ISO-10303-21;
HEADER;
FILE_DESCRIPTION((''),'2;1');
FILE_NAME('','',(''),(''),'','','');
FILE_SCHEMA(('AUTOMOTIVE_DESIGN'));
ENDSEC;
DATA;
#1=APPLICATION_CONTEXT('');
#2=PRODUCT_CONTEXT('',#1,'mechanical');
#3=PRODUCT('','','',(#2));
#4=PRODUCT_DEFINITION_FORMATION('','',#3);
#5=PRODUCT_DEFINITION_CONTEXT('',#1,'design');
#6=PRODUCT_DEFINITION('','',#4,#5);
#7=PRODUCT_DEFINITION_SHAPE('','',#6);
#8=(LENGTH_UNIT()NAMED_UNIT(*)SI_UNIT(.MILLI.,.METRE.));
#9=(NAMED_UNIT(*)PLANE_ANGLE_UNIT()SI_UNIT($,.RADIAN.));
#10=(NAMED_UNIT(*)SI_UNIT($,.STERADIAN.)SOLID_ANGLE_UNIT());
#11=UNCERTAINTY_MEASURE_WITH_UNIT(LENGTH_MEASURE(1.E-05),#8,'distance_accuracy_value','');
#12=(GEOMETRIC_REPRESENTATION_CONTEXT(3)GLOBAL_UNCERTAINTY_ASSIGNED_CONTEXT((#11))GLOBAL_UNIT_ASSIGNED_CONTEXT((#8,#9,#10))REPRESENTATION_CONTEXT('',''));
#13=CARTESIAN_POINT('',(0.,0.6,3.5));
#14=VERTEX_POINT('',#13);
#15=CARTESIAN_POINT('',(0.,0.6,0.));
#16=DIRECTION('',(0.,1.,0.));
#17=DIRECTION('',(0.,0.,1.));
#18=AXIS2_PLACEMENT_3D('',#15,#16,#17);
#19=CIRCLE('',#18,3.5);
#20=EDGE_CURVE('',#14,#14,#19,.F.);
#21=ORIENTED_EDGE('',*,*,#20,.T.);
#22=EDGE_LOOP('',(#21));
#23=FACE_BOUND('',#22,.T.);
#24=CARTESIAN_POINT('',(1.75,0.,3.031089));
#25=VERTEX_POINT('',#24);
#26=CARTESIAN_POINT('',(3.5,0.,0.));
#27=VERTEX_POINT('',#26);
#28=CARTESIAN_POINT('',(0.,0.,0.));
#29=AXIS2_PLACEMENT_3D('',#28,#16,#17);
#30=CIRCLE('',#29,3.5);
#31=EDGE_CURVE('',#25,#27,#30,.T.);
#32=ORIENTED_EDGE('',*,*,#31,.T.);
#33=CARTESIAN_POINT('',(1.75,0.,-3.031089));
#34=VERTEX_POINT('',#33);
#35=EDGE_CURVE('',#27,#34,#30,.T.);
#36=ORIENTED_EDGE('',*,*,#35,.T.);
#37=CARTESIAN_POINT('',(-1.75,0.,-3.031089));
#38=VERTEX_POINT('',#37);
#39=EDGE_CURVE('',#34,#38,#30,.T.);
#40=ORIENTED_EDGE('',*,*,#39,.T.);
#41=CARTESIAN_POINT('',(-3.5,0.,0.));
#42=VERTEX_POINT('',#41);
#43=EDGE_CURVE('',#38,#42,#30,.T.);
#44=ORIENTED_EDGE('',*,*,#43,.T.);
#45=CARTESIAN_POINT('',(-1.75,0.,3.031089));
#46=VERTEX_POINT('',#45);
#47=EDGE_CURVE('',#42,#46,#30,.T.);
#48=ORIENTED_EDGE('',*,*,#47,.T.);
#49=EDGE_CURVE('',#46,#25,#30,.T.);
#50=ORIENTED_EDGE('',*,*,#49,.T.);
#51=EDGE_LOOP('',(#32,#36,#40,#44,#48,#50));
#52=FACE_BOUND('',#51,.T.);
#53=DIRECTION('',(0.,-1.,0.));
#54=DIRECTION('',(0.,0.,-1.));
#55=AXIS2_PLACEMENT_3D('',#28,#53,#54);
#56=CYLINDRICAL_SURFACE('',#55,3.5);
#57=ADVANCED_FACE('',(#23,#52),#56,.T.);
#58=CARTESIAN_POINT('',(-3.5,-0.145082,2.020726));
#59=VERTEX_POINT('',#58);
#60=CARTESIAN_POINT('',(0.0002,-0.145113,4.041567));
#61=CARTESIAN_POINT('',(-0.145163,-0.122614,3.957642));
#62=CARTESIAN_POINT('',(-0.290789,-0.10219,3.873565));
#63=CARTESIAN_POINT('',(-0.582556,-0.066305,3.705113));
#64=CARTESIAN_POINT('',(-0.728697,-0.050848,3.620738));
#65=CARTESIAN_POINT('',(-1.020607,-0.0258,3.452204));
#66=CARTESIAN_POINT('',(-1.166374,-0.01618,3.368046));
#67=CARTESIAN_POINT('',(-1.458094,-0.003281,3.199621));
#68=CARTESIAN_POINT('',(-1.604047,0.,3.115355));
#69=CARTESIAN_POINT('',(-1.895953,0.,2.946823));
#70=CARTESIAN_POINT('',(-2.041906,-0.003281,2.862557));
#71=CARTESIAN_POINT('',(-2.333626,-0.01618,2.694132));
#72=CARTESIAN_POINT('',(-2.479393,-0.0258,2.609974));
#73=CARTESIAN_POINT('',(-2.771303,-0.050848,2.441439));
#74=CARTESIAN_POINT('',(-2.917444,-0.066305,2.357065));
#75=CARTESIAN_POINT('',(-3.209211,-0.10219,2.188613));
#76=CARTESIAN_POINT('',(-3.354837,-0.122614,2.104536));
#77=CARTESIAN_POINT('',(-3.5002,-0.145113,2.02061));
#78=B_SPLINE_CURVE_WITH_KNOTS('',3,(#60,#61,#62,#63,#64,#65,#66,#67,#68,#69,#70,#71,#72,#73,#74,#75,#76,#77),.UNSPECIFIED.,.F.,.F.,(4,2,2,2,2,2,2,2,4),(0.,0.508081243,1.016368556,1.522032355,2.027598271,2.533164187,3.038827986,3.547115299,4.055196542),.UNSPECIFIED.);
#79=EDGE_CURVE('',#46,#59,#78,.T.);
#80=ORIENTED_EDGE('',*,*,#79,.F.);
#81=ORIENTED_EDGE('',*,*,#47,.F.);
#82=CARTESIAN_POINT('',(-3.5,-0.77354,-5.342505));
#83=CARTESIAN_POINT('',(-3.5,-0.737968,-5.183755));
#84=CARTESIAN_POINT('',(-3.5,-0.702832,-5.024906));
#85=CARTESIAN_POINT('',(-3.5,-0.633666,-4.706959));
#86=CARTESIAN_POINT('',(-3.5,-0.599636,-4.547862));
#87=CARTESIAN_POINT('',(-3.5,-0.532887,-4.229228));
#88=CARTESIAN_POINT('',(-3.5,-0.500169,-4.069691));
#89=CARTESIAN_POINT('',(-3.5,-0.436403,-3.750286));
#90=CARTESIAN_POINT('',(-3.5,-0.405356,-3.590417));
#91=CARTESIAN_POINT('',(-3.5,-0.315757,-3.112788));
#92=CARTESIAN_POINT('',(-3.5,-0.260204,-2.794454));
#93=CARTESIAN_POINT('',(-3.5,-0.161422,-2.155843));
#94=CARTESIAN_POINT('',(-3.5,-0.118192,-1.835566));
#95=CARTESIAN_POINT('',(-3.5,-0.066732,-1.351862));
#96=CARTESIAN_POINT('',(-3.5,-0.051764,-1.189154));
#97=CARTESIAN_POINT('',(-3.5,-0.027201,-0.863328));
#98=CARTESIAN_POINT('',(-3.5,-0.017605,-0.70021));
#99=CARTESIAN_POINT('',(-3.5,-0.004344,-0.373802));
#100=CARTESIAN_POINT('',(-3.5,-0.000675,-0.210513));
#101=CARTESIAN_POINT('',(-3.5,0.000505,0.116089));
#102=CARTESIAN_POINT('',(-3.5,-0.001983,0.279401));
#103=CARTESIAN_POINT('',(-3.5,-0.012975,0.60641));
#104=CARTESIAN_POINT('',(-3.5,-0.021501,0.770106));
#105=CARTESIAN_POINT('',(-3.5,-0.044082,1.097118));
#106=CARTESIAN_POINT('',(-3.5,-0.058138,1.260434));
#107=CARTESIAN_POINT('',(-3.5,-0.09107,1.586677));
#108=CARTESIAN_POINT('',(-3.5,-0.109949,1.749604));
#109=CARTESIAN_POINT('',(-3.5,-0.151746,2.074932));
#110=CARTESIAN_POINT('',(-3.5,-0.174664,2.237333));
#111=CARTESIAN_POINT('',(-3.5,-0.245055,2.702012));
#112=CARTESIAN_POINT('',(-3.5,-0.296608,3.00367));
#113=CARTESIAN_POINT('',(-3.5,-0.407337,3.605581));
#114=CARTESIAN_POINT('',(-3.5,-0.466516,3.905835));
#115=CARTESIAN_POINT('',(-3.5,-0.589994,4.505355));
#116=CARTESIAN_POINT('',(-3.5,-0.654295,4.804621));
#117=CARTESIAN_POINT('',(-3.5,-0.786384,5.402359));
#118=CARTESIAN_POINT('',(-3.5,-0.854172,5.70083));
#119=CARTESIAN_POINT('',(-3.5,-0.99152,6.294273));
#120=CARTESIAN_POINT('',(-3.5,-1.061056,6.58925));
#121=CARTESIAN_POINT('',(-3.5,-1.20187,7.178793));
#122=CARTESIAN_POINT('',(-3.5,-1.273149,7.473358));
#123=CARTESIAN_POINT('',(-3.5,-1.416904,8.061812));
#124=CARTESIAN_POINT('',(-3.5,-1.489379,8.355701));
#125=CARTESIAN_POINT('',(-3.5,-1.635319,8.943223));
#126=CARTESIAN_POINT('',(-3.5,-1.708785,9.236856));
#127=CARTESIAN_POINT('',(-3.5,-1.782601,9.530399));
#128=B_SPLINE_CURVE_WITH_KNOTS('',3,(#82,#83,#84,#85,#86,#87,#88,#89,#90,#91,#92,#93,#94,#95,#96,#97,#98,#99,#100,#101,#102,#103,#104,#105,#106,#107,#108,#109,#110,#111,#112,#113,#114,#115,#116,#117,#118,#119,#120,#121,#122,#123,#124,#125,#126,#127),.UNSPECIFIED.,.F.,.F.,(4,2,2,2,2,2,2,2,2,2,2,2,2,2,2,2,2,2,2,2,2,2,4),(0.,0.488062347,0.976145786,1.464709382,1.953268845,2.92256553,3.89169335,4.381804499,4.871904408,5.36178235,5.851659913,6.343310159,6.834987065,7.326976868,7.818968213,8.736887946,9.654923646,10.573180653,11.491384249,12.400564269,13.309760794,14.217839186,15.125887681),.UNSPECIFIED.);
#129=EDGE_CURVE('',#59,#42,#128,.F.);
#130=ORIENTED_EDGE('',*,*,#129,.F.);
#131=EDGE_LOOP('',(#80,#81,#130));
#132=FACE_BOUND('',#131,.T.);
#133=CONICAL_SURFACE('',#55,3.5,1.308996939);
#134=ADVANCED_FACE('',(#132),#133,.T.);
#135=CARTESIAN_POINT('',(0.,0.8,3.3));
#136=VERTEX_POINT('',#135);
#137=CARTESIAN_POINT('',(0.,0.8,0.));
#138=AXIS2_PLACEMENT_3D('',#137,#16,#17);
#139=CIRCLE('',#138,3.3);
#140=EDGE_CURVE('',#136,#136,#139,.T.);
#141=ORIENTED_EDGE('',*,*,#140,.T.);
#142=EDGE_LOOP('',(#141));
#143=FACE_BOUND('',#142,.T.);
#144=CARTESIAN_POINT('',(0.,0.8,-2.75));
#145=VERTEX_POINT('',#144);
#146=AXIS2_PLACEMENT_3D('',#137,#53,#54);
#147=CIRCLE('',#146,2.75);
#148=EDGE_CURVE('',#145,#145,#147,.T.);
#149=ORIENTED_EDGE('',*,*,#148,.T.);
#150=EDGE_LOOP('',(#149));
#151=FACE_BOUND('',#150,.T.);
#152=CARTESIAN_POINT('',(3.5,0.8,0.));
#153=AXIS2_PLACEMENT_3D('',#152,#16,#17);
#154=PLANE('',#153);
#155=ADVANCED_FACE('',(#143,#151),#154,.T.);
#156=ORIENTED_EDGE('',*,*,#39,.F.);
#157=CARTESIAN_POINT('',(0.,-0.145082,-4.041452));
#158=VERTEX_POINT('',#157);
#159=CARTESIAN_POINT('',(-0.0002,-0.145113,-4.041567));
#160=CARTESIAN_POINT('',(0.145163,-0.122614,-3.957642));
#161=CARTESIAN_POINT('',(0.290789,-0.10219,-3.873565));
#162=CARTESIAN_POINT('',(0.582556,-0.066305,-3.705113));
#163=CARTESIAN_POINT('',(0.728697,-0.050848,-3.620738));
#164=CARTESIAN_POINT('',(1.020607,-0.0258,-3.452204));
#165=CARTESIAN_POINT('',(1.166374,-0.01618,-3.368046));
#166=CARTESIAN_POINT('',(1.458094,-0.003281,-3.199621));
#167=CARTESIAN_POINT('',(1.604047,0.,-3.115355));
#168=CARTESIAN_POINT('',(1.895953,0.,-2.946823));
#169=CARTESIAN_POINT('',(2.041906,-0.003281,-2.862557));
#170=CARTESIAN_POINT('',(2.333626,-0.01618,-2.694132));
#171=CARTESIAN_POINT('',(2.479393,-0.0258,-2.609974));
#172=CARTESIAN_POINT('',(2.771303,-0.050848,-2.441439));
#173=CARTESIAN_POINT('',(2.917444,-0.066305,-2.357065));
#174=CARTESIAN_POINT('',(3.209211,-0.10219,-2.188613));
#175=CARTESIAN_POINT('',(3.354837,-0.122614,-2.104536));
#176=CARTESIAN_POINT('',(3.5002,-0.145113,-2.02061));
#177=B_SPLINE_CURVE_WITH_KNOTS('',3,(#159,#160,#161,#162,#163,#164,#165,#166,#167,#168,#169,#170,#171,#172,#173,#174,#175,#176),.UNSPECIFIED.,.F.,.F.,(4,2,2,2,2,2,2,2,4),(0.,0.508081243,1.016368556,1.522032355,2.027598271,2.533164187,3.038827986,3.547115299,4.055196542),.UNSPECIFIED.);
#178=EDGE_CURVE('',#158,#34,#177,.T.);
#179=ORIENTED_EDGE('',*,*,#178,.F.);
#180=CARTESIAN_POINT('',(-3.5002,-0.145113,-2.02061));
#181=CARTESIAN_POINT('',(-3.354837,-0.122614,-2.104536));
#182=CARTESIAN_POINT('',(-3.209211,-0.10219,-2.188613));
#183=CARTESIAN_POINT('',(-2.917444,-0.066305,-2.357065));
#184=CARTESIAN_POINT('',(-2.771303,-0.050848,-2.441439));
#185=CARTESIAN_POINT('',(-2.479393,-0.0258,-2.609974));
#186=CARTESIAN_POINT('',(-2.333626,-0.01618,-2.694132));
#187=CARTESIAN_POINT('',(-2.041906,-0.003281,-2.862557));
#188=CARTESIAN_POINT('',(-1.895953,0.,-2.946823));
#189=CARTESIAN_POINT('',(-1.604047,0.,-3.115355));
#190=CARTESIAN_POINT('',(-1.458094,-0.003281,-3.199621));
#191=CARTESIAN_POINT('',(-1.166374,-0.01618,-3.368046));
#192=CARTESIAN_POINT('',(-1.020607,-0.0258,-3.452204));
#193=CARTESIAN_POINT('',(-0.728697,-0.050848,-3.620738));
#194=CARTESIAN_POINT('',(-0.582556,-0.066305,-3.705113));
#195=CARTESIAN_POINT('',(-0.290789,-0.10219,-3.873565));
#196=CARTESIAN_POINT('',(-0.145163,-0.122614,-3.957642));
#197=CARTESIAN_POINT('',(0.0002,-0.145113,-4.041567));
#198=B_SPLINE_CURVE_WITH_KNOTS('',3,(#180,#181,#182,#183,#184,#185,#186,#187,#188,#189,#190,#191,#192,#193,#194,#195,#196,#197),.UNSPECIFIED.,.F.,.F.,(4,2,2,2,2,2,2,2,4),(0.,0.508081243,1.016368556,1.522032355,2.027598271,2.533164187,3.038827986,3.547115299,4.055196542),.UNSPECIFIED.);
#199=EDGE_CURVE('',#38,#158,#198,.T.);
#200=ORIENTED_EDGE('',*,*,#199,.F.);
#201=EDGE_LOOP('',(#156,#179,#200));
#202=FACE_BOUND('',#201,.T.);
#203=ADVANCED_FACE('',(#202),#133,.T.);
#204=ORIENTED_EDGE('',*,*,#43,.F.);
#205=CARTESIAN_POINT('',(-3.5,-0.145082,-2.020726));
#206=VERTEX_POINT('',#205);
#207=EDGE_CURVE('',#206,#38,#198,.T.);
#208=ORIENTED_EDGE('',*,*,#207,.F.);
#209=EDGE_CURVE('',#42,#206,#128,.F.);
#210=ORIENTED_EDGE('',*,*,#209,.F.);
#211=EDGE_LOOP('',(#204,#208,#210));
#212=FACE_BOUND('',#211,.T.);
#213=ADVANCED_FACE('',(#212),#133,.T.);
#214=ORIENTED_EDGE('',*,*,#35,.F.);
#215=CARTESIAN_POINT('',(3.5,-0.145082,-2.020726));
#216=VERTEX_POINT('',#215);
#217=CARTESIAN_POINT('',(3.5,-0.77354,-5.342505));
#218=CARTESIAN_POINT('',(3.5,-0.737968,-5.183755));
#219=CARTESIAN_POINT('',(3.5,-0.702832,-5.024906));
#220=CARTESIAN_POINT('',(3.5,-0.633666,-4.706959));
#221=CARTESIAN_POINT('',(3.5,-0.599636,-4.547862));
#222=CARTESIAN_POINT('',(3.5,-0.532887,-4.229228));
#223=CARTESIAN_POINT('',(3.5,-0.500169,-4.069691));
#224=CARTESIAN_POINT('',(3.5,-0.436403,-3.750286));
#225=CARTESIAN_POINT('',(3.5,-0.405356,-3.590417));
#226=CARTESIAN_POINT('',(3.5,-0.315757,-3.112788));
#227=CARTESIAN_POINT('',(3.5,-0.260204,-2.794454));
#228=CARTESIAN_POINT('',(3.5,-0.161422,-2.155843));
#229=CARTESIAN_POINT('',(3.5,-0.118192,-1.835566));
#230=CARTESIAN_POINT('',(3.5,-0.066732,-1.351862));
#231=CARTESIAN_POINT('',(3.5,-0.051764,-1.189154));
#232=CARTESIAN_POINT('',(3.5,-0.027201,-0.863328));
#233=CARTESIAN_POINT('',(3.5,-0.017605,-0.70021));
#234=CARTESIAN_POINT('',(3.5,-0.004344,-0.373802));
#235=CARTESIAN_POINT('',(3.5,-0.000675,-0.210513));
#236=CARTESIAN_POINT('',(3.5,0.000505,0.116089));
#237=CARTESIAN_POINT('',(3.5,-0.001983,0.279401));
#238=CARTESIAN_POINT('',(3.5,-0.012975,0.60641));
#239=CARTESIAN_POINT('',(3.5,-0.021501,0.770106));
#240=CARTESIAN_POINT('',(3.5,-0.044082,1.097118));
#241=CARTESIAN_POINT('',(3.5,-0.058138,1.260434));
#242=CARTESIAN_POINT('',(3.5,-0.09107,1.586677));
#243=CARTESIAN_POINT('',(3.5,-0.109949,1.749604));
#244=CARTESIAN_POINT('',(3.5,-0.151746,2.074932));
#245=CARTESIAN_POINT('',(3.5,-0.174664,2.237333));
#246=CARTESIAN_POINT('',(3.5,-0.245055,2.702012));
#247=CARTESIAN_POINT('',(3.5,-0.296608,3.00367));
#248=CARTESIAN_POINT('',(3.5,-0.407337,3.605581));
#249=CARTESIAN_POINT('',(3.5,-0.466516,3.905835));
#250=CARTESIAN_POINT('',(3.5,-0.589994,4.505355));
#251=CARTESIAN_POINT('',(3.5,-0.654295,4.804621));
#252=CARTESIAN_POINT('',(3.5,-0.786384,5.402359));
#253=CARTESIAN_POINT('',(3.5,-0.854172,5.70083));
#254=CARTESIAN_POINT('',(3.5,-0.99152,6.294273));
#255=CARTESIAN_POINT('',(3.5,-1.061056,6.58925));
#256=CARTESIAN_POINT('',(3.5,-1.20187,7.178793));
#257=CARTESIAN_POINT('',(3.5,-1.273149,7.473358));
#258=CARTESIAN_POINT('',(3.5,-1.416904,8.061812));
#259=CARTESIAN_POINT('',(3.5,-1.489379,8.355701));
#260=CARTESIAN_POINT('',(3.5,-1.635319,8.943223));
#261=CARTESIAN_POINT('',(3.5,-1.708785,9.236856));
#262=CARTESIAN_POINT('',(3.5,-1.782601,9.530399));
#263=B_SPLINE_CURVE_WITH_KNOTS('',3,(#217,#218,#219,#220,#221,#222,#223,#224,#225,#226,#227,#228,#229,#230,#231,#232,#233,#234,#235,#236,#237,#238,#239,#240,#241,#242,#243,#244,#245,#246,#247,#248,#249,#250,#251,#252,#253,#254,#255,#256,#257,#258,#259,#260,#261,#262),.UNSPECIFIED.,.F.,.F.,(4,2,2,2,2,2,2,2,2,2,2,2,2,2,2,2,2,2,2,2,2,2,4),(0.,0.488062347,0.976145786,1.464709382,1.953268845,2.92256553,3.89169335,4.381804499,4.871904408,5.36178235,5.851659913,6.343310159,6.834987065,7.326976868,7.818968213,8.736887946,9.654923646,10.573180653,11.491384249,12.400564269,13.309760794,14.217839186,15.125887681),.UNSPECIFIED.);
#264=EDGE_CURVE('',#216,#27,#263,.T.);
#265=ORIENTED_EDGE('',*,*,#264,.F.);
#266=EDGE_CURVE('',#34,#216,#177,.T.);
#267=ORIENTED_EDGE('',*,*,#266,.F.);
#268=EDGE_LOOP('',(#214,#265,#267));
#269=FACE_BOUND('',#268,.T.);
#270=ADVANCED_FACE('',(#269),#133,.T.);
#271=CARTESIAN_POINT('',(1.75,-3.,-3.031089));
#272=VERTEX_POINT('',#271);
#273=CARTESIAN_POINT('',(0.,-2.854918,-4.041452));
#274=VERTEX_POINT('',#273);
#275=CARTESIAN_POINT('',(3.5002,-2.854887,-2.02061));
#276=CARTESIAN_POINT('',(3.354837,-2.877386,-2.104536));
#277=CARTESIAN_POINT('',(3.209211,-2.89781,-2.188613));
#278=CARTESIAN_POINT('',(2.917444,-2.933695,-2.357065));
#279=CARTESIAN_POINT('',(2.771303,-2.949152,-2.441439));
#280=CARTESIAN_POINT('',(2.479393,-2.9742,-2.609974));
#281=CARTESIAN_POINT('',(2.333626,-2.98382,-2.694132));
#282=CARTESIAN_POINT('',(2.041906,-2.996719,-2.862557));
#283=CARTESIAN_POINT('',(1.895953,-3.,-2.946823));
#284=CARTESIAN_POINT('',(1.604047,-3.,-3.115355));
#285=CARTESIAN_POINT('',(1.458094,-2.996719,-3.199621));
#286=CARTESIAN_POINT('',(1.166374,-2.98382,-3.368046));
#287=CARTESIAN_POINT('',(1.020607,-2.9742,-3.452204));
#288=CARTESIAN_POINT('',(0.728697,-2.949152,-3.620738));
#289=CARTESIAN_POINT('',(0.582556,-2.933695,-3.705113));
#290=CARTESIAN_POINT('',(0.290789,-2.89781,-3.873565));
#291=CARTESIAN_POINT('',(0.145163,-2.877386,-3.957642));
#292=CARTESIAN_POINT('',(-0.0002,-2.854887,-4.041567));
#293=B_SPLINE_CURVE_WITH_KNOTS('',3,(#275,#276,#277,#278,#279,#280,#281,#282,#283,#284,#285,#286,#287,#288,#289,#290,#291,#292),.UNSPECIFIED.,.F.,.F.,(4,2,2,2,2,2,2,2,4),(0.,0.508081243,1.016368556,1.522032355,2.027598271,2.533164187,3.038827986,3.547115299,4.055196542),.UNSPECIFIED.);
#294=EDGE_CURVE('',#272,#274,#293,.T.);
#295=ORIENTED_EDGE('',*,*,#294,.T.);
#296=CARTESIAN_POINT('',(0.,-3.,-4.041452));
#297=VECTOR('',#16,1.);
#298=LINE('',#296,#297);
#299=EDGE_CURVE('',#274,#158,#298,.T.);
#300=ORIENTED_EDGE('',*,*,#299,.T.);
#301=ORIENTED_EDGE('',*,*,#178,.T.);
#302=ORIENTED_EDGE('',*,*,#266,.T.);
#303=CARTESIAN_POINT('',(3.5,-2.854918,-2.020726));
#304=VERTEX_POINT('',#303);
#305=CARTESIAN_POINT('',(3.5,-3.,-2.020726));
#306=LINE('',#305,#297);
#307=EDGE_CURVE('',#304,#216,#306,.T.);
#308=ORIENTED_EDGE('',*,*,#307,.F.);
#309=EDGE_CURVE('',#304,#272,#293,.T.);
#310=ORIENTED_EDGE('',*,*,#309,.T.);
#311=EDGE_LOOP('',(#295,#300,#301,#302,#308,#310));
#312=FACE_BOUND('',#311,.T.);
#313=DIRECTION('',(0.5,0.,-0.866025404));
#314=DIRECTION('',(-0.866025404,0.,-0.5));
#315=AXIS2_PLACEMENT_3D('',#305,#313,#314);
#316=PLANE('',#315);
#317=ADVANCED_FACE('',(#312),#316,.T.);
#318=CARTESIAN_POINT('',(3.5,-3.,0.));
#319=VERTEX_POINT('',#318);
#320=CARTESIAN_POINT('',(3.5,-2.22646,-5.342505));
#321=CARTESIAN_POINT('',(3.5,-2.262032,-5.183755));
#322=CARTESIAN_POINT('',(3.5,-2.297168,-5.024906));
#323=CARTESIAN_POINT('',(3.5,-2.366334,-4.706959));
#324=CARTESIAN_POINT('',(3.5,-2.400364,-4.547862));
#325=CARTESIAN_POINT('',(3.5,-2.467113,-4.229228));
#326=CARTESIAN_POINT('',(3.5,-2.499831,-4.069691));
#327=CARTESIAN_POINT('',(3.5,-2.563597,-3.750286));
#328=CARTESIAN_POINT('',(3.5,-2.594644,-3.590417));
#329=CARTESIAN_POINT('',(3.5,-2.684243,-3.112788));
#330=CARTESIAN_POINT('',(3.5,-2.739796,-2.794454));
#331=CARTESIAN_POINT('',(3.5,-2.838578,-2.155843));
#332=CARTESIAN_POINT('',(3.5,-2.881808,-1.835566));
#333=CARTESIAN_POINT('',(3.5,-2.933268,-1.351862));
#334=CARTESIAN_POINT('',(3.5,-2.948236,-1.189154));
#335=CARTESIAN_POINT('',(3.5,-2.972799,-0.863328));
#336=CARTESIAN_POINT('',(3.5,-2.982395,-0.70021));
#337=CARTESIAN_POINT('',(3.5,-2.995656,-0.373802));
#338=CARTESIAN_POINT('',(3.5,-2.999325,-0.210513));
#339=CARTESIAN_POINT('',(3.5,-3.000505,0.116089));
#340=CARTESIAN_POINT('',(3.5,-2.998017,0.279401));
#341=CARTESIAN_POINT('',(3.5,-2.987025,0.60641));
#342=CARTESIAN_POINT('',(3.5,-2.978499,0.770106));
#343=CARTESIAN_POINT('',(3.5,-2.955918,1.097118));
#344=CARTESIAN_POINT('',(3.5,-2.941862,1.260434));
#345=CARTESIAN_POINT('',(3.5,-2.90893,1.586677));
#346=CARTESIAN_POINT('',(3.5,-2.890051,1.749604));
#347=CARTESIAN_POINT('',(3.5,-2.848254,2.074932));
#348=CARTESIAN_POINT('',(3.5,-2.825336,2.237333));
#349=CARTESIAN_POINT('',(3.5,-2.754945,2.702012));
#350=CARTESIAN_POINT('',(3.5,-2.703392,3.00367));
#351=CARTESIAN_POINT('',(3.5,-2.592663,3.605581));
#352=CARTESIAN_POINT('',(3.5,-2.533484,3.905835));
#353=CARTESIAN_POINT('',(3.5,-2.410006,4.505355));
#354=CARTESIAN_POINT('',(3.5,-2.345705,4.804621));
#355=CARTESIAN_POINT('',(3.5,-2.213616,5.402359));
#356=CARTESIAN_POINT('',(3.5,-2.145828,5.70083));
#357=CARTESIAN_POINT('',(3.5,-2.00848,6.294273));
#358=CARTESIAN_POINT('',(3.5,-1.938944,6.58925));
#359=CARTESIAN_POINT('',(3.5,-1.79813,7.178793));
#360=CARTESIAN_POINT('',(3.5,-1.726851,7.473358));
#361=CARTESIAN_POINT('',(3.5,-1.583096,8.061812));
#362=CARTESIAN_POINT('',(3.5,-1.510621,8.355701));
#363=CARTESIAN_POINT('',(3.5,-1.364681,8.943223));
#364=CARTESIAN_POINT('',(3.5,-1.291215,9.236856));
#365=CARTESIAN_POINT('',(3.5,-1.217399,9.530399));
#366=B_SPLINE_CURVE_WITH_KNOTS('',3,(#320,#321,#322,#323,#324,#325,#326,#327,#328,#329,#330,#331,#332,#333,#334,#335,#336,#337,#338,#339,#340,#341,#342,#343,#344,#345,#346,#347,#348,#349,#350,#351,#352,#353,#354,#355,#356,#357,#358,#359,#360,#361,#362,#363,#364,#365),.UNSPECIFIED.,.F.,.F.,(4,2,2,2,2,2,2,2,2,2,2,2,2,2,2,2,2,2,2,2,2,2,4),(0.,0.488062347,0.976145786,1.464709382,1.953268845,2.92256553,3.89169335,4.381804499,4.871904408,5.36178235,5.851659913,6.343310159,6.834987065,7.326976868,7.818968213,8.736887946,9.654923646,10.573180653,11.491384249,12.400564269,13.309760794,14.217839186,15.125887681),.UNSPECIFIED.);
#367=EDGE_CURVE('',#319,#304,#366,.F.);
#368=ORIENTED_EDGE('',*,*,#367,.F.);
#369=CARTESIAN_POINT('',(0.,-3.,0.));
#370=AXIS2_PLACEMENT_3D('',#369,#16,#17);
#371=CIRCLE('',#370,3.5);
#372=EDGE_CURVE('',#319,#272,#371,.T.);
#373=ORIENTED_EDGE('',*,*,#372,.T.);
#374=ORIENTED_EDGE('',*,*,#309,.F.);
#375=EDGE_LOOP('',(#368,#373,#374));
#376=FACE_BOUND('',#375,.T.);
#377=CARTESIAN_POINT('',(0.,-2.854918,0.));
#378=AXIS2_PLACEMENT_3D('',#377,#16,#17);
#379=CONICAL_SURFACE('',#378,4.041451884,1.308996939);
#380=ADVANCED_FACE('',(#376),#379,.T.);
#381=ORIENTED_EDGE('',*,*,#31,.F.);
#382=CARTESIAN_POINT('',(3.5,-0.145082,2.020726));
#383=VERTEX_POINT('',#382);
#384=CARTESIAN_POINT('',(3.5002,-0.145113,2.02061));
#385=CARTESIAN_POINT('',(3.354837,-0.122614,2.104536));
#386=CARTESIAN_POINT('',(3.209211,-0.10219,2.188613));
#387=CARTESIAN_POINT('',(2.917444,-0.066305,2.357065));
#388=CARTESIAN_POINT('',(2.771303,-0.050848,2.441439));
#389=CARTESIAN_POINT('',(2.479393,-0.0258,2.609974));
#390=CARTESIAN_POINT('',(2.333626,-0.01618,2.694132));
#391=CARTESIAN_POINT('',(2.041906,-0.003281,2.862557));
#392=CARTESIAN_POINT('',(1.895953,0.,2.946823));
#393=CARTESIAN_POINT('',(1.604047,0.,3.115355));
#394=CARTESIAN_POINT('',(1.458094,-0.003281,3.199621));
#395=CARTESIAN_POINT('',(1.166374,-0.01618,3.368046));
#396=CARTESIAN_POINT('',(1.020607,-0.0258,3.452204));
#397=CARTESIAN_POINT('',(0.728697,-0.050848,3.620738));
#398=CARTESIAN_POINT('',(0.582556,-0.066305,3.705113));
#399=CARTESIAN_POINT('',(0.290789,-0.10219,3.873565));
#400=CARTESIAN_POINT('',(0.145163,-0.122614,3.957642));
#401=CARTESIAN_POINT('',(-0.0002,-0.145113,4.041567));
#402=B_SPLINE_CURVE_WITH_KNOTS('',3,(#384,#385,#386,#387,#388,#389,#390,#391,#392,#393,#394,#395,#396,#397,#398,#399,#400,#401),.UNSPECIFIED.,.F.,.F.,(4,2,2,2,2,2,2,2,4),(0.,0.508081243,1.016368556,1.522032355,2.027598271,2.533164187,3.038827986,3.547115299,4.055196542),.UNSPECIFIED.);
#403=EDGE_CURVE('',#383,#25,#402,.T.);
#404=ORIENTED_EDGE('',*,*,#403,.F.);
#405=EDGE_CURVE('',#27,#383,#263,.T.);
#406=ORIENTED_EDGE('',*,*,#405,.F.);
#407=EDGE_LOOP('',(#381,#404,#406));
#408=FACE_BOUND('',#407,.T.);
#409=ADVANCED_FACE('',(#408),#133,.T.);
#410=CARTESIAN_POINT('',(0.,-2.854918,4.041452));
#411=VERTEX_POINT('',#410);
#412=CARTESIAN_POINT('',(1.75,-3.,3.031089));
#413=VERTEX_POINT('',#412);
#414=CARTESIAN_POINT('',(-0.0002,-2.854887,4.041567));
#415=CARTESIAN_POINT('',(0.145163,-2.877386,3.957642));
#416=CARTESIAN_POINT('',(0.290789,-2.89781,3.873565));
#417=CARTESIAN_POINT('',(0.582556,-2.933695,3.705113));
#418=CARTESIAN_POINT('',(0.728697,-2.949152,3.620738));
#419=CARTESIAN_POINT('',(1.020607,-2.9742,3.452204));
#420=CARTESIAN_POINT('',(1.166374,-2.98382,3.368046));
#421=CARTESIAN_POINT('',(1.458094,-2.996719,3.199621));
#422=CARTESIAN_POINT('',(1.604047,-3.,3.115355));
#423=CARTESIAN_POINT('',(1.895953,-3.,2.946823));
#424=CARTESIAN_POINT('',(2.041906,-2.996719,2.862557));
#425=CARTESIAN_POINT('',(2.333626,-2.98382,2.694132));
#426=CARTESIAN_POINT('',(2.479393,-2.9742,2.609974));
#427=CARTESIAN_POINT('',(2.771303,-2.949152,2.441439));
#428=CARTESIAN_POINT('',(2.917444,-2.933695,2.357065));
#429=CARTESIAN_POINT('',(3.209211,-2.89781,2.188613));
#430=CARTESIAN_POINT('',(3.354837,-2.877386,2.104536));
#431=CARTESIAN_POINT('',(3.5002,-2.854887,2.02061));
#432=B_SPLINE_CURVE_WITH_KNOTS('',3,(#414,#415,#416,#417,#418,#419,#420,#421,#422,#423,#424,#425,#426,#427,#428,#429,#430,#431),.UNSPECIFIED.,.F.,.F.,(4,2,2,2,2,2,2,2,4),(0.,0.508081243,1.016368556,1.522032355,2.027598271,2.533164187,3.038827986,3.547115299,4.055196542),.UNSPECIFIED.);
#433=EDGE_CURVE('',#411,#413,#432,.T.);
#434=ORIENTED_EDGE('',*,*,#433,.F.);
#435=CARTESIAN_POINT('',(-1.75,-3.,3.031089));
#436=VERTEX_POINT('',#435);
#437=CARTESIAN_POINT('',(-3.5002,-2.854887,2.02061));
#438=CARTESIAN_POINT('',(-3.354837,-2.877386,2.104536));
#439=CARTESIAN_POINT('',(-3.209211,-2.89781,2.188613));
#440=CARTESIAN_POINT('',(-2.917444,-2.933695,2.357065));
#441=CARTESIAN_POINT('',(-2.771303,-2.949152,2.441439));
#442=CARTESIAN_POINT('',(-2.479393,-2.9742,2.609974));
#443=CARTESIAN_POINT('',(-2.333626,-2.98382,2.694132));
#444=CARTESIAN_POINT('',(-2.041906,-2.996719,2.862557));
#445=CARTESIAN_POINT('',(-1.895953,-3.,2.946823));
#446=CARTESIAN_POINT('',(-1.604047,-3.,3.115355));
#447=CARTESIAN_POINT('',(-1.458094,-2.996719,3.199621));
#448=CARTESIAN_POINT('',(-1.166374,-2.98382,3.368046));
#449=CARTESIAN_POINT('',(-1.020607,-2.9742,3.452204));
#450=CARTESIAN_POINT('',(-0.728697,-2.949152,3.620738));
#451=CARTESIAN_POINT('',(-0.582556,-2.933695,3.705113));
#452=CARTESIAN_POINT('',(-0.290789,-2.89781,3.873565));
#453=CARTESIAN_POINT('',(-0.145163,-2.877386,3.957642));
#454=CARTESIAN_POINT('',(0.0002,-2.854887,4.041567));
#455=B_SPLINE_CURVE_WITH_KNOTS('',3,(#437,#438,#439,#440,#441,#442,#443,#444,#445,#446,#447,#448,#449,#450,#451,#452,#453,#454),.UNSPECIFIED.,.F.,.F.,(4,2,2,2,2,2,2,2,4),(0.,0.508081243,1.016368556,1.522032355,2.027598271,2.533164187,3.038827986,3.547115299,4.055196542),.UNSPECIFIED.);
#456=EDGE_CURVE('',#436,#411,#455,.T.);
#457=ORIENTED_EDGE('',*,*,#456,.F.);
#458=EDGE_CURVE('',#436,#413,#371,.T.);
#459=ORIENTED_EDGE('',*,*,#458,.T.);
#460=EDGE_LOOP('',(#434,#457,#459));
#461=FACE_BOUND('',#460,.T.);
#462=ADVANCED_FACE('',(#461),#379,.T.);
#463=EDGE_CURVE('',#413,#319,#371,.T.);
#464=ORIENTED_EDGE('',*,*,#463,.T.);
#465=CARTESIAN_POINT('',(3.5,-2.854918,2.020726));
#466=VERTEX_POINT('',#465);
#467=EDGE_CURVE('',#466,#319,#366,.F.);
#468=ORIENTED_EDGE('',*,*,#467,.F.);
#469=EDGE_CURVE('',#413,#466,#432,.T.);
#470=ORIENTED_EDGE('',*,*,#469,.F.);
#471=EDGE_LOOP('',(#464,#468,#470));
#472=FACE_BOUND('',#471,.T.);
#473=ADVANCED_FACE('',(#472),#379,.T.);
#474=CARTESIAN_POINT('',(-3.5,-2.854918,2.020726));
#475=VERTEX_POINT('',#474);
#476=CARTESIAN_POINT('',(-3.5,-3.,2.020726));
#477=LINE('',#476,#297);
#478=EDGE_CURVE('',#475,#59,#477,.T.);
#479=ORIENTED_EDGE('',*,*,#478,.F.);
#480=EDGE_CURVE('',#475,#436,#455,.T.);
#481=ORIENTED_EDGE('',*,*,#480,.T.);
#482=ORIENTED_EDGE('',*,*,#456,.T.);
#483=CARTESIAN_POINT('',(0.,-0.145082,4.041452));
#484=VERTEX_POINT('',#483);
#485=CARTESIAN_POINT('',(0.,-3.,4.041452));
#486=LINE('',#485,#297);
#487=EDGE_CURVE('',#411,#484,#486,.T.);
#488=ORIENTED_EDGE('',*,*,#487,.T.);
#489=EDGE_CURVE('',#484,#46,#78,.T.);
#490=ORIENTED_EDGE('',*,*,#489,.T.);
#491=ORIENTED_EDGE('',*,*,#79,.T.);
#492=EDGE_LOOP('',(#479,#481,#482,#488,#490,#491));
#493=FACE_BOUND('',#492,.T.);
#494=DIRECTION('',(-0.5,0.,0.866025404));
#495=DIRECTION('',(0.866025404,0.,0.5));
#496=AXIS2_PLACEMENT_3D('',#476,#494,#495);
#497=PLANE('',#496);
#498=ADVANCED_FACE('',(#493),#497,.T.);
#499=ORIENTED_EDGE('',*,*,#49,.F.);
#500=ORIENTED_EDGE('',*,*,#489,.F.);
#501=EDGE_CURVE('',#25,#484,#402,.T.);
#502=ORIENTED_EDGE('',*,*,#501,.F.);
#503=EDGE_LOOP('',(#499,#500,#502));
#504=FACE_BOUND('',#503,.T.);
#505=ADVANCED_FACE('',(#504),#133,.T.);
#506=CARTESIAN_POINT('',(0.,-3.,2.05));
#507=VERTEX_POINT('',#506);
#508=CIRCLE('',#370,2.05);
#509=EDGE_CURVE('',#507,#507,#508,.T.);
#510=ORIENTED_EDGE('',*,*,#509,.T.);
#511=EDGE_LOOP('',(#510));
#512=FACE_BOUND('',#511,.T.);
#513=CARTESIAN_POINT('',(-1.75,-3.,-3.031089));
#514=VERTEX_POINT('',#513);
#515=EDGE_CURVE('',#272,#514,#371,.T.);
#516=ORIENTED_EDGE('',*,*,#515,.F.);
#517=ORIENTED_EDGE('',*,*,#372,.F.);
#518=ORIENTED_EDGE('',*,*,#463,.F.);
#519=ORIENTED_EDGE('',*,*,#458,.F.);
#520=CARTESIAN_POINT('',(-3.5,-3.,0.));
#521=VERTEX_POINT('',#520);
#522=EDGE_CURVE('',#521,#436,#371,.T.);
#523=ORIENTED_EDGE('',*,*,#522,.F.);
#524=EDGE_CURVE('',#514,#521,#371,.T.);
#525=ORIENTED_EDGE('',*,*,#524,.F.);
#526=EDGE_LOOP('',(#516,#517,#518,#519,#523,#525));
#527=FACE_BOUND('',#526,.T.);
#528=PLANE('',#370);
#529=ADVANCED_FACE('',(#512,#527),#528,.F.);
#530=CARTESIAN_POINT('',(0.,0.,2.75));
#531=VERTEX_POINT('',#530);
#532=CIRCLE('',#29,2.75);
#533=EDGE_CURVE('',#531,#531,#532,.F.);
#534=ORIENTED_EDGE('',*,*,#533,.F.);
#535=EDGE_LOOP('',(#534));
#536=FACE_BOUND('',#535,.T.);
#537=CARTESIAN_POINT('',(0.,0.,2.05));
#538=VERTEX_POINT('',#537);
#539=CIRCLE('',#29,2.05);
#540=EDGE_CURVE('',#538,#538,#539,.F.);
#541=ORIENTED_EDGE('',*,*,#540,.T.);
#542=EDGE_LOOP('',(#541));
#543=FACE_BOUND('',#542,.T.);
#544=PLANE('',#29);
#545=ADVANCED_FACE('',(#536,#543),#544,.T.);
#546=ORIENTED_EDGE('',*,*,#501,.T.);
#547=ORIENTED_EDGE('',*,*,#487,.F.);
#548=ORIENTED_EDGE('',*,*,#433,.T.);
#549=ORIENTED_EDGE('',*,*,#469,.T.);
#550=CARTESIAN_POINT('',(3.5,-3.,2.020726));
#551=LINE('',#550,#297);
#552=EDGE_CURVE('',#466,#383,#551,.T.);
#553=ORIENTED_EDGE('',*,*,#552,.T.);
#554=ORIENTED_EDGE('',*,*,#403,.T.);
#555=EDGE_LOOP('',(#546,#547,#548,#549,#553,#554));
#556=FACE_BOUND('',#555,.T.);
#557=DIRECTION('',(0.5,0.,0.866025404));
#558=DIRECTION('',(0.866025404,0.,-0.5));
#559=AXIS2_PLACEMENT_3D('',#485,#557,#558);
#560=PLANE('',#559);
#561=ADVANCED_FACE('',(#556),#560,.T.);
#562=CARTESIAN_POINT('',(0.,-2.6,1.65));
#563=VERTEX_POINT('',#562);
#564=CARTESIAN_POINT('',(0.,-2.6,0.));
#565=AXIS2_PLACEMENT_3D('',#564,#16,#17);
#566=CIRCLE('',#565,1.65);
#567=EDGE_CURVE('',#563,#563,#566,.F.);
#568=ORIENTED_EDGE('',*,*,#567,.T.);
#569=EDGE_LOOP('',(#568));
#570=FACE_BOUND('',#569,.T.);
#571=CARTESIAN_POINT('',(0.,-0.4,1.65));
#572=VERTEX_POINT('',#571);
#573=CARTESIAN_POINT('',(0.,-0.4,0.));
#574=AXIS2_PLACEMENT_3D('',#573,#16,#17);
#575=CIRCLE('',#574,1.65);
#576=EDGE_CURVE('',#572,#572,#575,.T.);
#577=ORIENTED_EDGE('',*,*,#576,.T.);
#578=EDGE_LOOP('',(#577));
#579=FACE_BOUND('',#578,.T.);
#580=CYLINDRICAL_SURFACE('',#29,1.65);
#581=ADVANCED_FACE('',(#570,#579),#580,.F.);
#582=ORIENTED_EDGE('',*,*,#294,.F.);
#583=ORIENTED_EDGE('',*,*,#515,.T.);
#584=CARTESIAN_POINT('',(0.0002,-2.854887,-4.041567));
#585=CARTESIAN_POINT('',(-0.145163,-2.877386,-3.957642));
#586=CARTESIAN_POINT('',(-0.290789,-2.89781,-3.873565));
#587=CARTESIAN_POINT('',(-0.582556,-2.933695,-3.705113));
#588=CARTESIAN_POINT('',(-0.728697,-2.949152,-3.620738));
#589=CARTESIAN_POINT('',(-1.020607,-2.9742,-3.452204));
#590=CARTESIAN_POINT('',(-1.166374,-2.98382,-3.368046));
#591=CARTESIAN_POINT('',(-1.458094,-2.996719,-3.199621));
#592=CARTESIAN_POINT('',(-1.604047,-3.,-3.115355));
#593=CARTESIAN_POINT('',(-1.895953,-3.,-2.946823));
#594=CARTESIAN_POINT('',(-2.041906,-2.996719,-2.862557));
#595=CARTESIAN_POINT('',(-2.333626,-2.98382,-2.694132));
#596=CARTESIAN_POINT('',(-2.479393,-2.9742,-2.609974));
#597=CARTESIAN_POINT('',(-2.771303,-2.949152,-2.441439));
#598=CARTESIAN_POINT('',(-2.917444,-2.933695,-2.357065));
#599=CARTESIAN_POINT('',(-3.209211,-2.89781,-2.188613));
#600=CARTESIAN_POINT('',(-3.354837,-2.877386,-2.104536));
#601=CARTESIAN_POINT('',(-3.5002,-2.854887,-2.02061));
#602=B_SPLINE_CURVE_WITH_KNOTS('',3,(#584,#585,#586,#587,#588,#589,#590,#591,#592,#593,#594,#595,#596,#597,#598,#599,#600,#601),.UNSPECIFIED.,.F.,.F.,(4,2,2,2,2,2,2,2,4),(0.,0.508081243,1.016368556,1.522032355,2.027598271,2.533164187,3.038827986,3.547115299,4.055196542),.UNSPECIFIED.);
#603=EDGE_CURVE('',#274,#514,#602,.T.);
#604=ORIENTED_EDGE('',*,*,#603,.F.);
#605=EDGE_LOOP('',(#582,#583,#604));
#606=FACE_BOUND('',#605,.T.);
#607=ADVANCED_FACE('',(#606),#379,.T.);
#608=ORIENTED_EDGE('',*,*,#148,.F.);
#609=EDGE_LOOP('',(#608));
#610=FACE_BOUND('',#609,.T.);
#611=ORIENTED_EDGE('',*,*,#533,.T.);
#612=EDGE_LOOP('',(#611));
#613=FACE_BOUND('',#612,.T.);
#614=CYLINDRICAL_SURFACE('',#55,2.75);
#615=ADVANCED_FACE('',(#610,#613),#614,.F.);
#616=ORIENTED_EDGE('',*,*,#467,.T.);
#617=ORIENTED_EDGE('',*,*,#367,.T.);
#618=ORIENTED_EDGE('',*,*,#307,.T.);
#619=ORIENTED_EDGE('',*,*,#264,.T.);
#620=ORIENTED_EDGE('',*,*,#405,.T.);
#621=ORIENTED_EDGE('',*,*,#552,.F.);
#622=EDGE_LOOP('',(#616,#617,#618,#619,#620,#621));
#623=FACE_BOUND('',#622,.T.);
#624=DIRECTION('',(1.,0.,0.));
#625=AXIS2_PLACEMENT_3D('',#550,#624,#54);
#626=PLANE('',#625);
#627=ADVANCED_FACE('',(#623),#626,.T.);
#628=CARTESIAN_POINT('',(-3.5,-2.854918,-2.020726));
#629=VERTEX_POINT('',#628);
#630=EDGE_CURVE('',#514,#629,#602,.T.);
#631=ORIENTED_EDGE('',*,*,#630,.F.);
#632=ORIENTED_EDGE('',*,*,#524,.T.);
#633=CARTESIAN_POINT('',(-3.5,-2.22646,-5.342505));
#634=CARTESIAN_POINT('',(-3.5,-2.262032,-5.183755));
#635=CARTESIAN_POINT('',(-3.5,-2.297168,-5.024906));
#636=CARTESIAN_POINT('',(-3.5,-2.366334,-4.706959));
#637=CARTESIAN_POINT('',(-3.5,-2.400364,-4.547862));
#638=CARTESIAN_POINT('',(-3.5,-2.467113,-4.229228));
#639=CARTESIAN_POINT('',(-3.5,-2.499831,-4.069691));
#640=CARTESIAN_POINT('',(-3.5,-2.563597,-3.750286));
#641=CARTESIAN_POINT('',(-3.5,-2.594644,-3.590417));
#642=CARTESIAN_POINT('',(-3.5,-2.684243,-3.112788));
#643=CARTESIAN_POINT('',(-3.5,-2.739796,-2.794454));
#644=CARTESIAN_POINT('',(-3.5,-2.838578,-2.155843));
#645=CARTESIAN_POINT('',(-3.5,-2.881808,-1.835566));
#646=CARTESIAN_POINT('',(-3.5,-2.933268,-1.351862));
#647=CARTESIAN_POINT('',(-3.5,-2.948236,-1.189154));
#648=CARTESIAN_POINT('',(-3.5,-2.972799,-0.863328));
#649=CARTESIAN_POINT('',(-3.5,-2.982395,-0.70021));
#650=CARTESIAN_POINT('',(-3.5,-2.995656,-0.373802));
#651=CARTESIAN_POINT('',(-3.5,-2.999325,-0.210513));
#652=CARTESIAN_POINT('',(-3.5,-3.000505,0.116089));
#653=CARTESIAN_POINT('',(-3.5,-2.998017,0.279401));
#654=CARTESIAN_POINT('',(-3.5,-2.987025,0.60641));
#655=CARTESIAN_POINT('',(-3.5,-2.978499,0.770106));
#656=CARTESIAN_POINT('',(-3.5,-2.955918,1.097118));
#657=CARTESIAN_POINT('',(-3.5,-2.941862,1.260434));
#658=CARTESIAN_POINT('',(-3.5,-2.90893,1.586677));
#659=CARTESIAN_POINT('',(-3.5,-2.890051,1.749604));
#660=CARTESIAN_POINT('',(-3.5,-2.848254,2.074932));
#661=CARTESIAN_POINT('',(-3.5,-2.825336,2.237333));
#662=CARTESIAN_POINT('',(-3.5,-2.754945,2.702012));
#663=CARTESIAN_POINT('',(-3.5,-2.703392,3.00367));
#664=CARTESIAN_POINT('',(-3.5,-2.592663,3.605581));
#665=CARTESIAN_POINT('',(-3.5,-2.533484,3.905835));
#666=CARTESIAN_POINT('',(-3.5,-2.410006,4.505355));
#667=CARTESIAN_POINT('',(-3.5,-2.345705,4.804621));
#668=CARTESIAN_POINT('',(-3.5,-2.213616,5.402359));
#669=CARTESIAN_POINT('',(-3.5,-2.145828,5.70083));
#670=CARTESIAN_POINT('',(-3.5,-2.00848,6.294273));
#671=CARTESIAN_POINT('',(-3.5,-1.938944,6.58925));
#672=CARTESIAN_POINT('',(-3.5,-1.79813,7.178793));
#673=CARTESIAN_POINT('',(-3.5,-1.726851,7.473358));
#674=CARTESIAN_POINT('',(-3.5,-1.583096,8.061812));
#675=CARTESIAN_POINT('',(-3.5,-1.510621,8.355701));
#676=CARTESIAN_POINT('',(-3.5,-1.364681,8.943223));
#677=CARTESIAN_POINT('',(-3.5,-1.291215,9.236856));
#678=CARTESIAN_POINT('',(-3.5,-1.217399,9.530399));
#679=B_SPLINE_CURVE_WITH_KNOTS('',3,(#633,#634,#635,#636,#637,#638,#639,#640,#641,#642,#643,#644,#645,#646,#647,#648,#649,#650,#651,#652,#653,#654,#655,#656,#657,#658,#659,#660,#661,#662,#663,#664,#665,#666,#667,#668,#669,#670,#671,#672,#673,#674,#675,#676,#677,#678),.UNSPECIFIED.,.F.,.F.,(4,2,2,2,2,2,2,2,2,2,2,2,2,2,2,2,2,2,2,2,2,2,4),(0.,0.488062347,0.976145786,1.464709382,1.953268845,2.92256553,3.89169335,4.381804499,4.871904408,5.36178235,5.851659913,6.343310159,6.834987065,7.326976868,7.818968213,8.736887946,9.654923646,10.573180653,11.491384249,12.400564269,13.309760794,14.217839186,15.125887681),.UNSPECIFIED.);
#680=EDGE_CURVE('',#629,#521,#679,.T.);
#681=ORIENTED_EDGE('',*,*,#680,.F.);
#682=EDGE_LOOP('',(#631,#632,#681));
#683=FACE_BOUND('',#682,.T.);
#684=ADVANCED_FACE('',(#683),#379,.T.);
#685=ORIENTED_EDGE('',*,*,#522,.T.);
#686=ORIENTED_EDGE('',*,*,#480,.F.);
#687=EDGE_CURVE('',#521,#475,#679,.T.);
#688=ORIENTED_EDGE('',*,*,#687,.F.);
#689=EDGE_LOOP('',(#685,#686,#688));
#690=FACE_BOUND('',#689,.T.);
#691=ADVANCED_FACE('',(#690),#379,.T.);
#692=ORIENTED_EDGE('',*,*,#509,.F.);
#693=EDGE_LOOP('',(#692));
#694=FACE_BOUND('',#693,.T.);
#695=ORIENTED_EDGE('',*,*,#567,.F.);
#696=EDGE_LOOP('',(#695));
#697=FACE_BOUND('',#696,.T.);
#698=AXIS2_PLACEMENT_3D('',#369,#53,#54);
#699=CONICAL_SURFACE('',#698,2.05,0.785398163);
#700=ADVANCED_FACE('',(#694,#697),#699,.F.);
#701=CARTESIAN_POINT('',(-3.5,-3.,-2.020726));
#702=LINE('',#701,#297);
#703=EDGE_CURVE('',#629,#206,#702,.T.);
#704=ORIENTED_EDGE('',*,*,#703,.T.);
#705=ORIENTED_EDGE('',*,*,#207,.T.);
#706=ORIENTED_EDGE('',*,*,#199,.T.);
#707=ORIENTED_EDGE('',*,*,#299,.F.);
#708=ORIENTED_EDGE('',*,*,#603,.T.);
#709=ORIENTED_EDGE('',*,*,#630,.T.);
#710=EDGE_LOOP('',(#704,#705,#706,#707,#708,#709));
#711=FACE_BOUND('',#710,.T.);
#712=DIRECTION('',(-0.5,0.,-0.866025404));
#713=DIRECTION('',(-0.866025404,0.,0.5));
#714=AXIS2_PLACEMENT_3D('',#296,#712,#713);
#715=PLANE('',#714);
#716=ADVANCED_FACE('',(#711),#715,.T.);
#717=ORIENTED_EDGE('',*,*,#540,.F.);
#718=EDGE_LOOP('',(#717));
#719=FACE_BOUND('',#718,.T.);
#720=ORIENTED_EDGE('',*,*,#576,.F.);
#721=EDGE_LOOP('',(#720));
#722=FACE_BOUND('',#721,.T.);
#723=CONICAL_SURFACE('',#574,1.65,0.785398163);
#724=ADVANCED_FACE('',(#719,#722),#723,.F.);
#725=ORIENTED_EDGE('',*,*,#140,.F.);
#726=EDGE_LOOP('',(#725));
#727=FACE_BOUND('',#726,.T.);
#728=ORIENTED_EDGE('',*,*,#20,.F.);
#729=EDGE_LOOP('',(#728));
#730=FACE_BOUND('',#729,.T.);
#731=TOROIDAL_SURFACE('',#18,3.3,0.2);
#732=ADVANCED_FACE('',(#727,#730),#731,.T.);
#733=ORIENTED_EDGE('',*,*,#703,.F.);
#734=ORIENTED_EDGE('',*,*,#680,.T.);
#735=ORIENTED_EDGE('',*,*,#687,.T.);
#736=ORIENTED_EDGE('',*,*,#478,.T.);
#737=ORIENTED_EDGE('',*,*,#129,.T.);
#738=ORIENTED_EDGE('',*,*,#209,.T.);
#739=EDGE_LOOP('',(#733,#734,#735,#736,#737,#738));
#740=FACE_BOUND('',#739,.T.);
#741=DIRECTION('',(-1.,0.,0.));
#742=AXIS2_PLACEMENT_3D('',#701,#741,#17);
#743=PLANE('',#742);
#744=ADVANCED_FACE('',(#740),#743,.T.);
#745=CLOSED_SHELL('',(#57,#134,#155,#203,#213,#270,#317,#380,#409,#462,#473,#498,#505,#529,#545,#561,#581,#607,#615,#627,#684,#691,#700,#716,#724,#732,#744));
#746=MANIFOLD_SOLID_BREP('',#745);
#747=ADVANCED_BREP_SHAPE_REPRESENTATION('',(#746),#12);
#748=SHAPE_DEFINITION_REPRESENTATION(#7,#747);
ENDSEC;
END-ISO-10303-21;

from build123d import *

# Parameters (mm, degrees)
BOSS_EXTRUDE1_DEPTH = 3
TAPPED_HOLE1_D      = 3.3
CHAMFER1_SIZE       = 0.4
SKETCH5_W           = 0.75
SKETCH5_H           = 0.8
FILLET1_R           = 0.2


with BuildPart() as part:
    # Sketch1 → Boss-Extrude1 (new body)
    with BuildSketch(Plane(origin=(0, 0, 0), x_dir=(1, 0, 0), z_dir=(0, 1, 0))):
        Polygon((0, 4.041451884), (-3.5, 2.020725942), (-3.5, -2.020725942), (0, -4.041451884), (3.5, -2.020725942), (3.5, 2.020725942), align=None)
    extrude(amount=-BOSS_EXTRUDE1_DEPTH)

    # Sketch2 → Cut-Revolve1 (revolve, cut)
    with BuildSketch(Plane(origin=(0, 0, 0), x_dir=(0, 0, -1), z_dir=(1, 0, 0))):
        Polygon((3.5, 0), (4.041451884, 0), (4.041451884, -0.145081595), align=None)
        Polygon((4.041451884, -2.854918405), (3.5, -3), (4.041451884, -3), align=None)
    revolve(axis=Axis((0, 0, 0), (0, -1, 0)), mode=Mode.SUBTRACT)

    # Tapped Hole1 (through all)
    with Locations(Plane(origin=(0, 0, 0), x_dir=(1, 0, 0), z_dir=(0, 1, 0))):
        with Locations((0, 0)):
            Hole(TAPPED_HOLE1_D / 2)

    # Chamfer1
    chamfer1_edges = [part.edges().sort_by_distance(p)[0] for p in [
        (1.65, 0, 0),
        (1.65, -3, 0),
    ]]
    chamfer(chamfer1_edges, length=CHAMFER1_SIZE)

    # Sketch5 → Revolve1 (revolve)
    with BuildSketch(Plane.XY, mode=Mode.PRIVATE) as revolve1_sk:
        with Locations((3.125, 0.4)):
            Rectangle(SKETCH5_W, SKETCH5_H)
    revolve(revolve1_sk.sketch.rotate(Axis((0, 0, 0), (0, 1, 0)), 270), axis=Axis((0, 0, 0), (0, 1, 0)))

    # Fillet1
    fillet1_edges = [part.edges().sort_by_distance(p)[0] for p in [
        (0, 0.8, -3.5),
    ]]
    fillet(fillet1_edges, radius=FILLET1_R)


solid = part.part
